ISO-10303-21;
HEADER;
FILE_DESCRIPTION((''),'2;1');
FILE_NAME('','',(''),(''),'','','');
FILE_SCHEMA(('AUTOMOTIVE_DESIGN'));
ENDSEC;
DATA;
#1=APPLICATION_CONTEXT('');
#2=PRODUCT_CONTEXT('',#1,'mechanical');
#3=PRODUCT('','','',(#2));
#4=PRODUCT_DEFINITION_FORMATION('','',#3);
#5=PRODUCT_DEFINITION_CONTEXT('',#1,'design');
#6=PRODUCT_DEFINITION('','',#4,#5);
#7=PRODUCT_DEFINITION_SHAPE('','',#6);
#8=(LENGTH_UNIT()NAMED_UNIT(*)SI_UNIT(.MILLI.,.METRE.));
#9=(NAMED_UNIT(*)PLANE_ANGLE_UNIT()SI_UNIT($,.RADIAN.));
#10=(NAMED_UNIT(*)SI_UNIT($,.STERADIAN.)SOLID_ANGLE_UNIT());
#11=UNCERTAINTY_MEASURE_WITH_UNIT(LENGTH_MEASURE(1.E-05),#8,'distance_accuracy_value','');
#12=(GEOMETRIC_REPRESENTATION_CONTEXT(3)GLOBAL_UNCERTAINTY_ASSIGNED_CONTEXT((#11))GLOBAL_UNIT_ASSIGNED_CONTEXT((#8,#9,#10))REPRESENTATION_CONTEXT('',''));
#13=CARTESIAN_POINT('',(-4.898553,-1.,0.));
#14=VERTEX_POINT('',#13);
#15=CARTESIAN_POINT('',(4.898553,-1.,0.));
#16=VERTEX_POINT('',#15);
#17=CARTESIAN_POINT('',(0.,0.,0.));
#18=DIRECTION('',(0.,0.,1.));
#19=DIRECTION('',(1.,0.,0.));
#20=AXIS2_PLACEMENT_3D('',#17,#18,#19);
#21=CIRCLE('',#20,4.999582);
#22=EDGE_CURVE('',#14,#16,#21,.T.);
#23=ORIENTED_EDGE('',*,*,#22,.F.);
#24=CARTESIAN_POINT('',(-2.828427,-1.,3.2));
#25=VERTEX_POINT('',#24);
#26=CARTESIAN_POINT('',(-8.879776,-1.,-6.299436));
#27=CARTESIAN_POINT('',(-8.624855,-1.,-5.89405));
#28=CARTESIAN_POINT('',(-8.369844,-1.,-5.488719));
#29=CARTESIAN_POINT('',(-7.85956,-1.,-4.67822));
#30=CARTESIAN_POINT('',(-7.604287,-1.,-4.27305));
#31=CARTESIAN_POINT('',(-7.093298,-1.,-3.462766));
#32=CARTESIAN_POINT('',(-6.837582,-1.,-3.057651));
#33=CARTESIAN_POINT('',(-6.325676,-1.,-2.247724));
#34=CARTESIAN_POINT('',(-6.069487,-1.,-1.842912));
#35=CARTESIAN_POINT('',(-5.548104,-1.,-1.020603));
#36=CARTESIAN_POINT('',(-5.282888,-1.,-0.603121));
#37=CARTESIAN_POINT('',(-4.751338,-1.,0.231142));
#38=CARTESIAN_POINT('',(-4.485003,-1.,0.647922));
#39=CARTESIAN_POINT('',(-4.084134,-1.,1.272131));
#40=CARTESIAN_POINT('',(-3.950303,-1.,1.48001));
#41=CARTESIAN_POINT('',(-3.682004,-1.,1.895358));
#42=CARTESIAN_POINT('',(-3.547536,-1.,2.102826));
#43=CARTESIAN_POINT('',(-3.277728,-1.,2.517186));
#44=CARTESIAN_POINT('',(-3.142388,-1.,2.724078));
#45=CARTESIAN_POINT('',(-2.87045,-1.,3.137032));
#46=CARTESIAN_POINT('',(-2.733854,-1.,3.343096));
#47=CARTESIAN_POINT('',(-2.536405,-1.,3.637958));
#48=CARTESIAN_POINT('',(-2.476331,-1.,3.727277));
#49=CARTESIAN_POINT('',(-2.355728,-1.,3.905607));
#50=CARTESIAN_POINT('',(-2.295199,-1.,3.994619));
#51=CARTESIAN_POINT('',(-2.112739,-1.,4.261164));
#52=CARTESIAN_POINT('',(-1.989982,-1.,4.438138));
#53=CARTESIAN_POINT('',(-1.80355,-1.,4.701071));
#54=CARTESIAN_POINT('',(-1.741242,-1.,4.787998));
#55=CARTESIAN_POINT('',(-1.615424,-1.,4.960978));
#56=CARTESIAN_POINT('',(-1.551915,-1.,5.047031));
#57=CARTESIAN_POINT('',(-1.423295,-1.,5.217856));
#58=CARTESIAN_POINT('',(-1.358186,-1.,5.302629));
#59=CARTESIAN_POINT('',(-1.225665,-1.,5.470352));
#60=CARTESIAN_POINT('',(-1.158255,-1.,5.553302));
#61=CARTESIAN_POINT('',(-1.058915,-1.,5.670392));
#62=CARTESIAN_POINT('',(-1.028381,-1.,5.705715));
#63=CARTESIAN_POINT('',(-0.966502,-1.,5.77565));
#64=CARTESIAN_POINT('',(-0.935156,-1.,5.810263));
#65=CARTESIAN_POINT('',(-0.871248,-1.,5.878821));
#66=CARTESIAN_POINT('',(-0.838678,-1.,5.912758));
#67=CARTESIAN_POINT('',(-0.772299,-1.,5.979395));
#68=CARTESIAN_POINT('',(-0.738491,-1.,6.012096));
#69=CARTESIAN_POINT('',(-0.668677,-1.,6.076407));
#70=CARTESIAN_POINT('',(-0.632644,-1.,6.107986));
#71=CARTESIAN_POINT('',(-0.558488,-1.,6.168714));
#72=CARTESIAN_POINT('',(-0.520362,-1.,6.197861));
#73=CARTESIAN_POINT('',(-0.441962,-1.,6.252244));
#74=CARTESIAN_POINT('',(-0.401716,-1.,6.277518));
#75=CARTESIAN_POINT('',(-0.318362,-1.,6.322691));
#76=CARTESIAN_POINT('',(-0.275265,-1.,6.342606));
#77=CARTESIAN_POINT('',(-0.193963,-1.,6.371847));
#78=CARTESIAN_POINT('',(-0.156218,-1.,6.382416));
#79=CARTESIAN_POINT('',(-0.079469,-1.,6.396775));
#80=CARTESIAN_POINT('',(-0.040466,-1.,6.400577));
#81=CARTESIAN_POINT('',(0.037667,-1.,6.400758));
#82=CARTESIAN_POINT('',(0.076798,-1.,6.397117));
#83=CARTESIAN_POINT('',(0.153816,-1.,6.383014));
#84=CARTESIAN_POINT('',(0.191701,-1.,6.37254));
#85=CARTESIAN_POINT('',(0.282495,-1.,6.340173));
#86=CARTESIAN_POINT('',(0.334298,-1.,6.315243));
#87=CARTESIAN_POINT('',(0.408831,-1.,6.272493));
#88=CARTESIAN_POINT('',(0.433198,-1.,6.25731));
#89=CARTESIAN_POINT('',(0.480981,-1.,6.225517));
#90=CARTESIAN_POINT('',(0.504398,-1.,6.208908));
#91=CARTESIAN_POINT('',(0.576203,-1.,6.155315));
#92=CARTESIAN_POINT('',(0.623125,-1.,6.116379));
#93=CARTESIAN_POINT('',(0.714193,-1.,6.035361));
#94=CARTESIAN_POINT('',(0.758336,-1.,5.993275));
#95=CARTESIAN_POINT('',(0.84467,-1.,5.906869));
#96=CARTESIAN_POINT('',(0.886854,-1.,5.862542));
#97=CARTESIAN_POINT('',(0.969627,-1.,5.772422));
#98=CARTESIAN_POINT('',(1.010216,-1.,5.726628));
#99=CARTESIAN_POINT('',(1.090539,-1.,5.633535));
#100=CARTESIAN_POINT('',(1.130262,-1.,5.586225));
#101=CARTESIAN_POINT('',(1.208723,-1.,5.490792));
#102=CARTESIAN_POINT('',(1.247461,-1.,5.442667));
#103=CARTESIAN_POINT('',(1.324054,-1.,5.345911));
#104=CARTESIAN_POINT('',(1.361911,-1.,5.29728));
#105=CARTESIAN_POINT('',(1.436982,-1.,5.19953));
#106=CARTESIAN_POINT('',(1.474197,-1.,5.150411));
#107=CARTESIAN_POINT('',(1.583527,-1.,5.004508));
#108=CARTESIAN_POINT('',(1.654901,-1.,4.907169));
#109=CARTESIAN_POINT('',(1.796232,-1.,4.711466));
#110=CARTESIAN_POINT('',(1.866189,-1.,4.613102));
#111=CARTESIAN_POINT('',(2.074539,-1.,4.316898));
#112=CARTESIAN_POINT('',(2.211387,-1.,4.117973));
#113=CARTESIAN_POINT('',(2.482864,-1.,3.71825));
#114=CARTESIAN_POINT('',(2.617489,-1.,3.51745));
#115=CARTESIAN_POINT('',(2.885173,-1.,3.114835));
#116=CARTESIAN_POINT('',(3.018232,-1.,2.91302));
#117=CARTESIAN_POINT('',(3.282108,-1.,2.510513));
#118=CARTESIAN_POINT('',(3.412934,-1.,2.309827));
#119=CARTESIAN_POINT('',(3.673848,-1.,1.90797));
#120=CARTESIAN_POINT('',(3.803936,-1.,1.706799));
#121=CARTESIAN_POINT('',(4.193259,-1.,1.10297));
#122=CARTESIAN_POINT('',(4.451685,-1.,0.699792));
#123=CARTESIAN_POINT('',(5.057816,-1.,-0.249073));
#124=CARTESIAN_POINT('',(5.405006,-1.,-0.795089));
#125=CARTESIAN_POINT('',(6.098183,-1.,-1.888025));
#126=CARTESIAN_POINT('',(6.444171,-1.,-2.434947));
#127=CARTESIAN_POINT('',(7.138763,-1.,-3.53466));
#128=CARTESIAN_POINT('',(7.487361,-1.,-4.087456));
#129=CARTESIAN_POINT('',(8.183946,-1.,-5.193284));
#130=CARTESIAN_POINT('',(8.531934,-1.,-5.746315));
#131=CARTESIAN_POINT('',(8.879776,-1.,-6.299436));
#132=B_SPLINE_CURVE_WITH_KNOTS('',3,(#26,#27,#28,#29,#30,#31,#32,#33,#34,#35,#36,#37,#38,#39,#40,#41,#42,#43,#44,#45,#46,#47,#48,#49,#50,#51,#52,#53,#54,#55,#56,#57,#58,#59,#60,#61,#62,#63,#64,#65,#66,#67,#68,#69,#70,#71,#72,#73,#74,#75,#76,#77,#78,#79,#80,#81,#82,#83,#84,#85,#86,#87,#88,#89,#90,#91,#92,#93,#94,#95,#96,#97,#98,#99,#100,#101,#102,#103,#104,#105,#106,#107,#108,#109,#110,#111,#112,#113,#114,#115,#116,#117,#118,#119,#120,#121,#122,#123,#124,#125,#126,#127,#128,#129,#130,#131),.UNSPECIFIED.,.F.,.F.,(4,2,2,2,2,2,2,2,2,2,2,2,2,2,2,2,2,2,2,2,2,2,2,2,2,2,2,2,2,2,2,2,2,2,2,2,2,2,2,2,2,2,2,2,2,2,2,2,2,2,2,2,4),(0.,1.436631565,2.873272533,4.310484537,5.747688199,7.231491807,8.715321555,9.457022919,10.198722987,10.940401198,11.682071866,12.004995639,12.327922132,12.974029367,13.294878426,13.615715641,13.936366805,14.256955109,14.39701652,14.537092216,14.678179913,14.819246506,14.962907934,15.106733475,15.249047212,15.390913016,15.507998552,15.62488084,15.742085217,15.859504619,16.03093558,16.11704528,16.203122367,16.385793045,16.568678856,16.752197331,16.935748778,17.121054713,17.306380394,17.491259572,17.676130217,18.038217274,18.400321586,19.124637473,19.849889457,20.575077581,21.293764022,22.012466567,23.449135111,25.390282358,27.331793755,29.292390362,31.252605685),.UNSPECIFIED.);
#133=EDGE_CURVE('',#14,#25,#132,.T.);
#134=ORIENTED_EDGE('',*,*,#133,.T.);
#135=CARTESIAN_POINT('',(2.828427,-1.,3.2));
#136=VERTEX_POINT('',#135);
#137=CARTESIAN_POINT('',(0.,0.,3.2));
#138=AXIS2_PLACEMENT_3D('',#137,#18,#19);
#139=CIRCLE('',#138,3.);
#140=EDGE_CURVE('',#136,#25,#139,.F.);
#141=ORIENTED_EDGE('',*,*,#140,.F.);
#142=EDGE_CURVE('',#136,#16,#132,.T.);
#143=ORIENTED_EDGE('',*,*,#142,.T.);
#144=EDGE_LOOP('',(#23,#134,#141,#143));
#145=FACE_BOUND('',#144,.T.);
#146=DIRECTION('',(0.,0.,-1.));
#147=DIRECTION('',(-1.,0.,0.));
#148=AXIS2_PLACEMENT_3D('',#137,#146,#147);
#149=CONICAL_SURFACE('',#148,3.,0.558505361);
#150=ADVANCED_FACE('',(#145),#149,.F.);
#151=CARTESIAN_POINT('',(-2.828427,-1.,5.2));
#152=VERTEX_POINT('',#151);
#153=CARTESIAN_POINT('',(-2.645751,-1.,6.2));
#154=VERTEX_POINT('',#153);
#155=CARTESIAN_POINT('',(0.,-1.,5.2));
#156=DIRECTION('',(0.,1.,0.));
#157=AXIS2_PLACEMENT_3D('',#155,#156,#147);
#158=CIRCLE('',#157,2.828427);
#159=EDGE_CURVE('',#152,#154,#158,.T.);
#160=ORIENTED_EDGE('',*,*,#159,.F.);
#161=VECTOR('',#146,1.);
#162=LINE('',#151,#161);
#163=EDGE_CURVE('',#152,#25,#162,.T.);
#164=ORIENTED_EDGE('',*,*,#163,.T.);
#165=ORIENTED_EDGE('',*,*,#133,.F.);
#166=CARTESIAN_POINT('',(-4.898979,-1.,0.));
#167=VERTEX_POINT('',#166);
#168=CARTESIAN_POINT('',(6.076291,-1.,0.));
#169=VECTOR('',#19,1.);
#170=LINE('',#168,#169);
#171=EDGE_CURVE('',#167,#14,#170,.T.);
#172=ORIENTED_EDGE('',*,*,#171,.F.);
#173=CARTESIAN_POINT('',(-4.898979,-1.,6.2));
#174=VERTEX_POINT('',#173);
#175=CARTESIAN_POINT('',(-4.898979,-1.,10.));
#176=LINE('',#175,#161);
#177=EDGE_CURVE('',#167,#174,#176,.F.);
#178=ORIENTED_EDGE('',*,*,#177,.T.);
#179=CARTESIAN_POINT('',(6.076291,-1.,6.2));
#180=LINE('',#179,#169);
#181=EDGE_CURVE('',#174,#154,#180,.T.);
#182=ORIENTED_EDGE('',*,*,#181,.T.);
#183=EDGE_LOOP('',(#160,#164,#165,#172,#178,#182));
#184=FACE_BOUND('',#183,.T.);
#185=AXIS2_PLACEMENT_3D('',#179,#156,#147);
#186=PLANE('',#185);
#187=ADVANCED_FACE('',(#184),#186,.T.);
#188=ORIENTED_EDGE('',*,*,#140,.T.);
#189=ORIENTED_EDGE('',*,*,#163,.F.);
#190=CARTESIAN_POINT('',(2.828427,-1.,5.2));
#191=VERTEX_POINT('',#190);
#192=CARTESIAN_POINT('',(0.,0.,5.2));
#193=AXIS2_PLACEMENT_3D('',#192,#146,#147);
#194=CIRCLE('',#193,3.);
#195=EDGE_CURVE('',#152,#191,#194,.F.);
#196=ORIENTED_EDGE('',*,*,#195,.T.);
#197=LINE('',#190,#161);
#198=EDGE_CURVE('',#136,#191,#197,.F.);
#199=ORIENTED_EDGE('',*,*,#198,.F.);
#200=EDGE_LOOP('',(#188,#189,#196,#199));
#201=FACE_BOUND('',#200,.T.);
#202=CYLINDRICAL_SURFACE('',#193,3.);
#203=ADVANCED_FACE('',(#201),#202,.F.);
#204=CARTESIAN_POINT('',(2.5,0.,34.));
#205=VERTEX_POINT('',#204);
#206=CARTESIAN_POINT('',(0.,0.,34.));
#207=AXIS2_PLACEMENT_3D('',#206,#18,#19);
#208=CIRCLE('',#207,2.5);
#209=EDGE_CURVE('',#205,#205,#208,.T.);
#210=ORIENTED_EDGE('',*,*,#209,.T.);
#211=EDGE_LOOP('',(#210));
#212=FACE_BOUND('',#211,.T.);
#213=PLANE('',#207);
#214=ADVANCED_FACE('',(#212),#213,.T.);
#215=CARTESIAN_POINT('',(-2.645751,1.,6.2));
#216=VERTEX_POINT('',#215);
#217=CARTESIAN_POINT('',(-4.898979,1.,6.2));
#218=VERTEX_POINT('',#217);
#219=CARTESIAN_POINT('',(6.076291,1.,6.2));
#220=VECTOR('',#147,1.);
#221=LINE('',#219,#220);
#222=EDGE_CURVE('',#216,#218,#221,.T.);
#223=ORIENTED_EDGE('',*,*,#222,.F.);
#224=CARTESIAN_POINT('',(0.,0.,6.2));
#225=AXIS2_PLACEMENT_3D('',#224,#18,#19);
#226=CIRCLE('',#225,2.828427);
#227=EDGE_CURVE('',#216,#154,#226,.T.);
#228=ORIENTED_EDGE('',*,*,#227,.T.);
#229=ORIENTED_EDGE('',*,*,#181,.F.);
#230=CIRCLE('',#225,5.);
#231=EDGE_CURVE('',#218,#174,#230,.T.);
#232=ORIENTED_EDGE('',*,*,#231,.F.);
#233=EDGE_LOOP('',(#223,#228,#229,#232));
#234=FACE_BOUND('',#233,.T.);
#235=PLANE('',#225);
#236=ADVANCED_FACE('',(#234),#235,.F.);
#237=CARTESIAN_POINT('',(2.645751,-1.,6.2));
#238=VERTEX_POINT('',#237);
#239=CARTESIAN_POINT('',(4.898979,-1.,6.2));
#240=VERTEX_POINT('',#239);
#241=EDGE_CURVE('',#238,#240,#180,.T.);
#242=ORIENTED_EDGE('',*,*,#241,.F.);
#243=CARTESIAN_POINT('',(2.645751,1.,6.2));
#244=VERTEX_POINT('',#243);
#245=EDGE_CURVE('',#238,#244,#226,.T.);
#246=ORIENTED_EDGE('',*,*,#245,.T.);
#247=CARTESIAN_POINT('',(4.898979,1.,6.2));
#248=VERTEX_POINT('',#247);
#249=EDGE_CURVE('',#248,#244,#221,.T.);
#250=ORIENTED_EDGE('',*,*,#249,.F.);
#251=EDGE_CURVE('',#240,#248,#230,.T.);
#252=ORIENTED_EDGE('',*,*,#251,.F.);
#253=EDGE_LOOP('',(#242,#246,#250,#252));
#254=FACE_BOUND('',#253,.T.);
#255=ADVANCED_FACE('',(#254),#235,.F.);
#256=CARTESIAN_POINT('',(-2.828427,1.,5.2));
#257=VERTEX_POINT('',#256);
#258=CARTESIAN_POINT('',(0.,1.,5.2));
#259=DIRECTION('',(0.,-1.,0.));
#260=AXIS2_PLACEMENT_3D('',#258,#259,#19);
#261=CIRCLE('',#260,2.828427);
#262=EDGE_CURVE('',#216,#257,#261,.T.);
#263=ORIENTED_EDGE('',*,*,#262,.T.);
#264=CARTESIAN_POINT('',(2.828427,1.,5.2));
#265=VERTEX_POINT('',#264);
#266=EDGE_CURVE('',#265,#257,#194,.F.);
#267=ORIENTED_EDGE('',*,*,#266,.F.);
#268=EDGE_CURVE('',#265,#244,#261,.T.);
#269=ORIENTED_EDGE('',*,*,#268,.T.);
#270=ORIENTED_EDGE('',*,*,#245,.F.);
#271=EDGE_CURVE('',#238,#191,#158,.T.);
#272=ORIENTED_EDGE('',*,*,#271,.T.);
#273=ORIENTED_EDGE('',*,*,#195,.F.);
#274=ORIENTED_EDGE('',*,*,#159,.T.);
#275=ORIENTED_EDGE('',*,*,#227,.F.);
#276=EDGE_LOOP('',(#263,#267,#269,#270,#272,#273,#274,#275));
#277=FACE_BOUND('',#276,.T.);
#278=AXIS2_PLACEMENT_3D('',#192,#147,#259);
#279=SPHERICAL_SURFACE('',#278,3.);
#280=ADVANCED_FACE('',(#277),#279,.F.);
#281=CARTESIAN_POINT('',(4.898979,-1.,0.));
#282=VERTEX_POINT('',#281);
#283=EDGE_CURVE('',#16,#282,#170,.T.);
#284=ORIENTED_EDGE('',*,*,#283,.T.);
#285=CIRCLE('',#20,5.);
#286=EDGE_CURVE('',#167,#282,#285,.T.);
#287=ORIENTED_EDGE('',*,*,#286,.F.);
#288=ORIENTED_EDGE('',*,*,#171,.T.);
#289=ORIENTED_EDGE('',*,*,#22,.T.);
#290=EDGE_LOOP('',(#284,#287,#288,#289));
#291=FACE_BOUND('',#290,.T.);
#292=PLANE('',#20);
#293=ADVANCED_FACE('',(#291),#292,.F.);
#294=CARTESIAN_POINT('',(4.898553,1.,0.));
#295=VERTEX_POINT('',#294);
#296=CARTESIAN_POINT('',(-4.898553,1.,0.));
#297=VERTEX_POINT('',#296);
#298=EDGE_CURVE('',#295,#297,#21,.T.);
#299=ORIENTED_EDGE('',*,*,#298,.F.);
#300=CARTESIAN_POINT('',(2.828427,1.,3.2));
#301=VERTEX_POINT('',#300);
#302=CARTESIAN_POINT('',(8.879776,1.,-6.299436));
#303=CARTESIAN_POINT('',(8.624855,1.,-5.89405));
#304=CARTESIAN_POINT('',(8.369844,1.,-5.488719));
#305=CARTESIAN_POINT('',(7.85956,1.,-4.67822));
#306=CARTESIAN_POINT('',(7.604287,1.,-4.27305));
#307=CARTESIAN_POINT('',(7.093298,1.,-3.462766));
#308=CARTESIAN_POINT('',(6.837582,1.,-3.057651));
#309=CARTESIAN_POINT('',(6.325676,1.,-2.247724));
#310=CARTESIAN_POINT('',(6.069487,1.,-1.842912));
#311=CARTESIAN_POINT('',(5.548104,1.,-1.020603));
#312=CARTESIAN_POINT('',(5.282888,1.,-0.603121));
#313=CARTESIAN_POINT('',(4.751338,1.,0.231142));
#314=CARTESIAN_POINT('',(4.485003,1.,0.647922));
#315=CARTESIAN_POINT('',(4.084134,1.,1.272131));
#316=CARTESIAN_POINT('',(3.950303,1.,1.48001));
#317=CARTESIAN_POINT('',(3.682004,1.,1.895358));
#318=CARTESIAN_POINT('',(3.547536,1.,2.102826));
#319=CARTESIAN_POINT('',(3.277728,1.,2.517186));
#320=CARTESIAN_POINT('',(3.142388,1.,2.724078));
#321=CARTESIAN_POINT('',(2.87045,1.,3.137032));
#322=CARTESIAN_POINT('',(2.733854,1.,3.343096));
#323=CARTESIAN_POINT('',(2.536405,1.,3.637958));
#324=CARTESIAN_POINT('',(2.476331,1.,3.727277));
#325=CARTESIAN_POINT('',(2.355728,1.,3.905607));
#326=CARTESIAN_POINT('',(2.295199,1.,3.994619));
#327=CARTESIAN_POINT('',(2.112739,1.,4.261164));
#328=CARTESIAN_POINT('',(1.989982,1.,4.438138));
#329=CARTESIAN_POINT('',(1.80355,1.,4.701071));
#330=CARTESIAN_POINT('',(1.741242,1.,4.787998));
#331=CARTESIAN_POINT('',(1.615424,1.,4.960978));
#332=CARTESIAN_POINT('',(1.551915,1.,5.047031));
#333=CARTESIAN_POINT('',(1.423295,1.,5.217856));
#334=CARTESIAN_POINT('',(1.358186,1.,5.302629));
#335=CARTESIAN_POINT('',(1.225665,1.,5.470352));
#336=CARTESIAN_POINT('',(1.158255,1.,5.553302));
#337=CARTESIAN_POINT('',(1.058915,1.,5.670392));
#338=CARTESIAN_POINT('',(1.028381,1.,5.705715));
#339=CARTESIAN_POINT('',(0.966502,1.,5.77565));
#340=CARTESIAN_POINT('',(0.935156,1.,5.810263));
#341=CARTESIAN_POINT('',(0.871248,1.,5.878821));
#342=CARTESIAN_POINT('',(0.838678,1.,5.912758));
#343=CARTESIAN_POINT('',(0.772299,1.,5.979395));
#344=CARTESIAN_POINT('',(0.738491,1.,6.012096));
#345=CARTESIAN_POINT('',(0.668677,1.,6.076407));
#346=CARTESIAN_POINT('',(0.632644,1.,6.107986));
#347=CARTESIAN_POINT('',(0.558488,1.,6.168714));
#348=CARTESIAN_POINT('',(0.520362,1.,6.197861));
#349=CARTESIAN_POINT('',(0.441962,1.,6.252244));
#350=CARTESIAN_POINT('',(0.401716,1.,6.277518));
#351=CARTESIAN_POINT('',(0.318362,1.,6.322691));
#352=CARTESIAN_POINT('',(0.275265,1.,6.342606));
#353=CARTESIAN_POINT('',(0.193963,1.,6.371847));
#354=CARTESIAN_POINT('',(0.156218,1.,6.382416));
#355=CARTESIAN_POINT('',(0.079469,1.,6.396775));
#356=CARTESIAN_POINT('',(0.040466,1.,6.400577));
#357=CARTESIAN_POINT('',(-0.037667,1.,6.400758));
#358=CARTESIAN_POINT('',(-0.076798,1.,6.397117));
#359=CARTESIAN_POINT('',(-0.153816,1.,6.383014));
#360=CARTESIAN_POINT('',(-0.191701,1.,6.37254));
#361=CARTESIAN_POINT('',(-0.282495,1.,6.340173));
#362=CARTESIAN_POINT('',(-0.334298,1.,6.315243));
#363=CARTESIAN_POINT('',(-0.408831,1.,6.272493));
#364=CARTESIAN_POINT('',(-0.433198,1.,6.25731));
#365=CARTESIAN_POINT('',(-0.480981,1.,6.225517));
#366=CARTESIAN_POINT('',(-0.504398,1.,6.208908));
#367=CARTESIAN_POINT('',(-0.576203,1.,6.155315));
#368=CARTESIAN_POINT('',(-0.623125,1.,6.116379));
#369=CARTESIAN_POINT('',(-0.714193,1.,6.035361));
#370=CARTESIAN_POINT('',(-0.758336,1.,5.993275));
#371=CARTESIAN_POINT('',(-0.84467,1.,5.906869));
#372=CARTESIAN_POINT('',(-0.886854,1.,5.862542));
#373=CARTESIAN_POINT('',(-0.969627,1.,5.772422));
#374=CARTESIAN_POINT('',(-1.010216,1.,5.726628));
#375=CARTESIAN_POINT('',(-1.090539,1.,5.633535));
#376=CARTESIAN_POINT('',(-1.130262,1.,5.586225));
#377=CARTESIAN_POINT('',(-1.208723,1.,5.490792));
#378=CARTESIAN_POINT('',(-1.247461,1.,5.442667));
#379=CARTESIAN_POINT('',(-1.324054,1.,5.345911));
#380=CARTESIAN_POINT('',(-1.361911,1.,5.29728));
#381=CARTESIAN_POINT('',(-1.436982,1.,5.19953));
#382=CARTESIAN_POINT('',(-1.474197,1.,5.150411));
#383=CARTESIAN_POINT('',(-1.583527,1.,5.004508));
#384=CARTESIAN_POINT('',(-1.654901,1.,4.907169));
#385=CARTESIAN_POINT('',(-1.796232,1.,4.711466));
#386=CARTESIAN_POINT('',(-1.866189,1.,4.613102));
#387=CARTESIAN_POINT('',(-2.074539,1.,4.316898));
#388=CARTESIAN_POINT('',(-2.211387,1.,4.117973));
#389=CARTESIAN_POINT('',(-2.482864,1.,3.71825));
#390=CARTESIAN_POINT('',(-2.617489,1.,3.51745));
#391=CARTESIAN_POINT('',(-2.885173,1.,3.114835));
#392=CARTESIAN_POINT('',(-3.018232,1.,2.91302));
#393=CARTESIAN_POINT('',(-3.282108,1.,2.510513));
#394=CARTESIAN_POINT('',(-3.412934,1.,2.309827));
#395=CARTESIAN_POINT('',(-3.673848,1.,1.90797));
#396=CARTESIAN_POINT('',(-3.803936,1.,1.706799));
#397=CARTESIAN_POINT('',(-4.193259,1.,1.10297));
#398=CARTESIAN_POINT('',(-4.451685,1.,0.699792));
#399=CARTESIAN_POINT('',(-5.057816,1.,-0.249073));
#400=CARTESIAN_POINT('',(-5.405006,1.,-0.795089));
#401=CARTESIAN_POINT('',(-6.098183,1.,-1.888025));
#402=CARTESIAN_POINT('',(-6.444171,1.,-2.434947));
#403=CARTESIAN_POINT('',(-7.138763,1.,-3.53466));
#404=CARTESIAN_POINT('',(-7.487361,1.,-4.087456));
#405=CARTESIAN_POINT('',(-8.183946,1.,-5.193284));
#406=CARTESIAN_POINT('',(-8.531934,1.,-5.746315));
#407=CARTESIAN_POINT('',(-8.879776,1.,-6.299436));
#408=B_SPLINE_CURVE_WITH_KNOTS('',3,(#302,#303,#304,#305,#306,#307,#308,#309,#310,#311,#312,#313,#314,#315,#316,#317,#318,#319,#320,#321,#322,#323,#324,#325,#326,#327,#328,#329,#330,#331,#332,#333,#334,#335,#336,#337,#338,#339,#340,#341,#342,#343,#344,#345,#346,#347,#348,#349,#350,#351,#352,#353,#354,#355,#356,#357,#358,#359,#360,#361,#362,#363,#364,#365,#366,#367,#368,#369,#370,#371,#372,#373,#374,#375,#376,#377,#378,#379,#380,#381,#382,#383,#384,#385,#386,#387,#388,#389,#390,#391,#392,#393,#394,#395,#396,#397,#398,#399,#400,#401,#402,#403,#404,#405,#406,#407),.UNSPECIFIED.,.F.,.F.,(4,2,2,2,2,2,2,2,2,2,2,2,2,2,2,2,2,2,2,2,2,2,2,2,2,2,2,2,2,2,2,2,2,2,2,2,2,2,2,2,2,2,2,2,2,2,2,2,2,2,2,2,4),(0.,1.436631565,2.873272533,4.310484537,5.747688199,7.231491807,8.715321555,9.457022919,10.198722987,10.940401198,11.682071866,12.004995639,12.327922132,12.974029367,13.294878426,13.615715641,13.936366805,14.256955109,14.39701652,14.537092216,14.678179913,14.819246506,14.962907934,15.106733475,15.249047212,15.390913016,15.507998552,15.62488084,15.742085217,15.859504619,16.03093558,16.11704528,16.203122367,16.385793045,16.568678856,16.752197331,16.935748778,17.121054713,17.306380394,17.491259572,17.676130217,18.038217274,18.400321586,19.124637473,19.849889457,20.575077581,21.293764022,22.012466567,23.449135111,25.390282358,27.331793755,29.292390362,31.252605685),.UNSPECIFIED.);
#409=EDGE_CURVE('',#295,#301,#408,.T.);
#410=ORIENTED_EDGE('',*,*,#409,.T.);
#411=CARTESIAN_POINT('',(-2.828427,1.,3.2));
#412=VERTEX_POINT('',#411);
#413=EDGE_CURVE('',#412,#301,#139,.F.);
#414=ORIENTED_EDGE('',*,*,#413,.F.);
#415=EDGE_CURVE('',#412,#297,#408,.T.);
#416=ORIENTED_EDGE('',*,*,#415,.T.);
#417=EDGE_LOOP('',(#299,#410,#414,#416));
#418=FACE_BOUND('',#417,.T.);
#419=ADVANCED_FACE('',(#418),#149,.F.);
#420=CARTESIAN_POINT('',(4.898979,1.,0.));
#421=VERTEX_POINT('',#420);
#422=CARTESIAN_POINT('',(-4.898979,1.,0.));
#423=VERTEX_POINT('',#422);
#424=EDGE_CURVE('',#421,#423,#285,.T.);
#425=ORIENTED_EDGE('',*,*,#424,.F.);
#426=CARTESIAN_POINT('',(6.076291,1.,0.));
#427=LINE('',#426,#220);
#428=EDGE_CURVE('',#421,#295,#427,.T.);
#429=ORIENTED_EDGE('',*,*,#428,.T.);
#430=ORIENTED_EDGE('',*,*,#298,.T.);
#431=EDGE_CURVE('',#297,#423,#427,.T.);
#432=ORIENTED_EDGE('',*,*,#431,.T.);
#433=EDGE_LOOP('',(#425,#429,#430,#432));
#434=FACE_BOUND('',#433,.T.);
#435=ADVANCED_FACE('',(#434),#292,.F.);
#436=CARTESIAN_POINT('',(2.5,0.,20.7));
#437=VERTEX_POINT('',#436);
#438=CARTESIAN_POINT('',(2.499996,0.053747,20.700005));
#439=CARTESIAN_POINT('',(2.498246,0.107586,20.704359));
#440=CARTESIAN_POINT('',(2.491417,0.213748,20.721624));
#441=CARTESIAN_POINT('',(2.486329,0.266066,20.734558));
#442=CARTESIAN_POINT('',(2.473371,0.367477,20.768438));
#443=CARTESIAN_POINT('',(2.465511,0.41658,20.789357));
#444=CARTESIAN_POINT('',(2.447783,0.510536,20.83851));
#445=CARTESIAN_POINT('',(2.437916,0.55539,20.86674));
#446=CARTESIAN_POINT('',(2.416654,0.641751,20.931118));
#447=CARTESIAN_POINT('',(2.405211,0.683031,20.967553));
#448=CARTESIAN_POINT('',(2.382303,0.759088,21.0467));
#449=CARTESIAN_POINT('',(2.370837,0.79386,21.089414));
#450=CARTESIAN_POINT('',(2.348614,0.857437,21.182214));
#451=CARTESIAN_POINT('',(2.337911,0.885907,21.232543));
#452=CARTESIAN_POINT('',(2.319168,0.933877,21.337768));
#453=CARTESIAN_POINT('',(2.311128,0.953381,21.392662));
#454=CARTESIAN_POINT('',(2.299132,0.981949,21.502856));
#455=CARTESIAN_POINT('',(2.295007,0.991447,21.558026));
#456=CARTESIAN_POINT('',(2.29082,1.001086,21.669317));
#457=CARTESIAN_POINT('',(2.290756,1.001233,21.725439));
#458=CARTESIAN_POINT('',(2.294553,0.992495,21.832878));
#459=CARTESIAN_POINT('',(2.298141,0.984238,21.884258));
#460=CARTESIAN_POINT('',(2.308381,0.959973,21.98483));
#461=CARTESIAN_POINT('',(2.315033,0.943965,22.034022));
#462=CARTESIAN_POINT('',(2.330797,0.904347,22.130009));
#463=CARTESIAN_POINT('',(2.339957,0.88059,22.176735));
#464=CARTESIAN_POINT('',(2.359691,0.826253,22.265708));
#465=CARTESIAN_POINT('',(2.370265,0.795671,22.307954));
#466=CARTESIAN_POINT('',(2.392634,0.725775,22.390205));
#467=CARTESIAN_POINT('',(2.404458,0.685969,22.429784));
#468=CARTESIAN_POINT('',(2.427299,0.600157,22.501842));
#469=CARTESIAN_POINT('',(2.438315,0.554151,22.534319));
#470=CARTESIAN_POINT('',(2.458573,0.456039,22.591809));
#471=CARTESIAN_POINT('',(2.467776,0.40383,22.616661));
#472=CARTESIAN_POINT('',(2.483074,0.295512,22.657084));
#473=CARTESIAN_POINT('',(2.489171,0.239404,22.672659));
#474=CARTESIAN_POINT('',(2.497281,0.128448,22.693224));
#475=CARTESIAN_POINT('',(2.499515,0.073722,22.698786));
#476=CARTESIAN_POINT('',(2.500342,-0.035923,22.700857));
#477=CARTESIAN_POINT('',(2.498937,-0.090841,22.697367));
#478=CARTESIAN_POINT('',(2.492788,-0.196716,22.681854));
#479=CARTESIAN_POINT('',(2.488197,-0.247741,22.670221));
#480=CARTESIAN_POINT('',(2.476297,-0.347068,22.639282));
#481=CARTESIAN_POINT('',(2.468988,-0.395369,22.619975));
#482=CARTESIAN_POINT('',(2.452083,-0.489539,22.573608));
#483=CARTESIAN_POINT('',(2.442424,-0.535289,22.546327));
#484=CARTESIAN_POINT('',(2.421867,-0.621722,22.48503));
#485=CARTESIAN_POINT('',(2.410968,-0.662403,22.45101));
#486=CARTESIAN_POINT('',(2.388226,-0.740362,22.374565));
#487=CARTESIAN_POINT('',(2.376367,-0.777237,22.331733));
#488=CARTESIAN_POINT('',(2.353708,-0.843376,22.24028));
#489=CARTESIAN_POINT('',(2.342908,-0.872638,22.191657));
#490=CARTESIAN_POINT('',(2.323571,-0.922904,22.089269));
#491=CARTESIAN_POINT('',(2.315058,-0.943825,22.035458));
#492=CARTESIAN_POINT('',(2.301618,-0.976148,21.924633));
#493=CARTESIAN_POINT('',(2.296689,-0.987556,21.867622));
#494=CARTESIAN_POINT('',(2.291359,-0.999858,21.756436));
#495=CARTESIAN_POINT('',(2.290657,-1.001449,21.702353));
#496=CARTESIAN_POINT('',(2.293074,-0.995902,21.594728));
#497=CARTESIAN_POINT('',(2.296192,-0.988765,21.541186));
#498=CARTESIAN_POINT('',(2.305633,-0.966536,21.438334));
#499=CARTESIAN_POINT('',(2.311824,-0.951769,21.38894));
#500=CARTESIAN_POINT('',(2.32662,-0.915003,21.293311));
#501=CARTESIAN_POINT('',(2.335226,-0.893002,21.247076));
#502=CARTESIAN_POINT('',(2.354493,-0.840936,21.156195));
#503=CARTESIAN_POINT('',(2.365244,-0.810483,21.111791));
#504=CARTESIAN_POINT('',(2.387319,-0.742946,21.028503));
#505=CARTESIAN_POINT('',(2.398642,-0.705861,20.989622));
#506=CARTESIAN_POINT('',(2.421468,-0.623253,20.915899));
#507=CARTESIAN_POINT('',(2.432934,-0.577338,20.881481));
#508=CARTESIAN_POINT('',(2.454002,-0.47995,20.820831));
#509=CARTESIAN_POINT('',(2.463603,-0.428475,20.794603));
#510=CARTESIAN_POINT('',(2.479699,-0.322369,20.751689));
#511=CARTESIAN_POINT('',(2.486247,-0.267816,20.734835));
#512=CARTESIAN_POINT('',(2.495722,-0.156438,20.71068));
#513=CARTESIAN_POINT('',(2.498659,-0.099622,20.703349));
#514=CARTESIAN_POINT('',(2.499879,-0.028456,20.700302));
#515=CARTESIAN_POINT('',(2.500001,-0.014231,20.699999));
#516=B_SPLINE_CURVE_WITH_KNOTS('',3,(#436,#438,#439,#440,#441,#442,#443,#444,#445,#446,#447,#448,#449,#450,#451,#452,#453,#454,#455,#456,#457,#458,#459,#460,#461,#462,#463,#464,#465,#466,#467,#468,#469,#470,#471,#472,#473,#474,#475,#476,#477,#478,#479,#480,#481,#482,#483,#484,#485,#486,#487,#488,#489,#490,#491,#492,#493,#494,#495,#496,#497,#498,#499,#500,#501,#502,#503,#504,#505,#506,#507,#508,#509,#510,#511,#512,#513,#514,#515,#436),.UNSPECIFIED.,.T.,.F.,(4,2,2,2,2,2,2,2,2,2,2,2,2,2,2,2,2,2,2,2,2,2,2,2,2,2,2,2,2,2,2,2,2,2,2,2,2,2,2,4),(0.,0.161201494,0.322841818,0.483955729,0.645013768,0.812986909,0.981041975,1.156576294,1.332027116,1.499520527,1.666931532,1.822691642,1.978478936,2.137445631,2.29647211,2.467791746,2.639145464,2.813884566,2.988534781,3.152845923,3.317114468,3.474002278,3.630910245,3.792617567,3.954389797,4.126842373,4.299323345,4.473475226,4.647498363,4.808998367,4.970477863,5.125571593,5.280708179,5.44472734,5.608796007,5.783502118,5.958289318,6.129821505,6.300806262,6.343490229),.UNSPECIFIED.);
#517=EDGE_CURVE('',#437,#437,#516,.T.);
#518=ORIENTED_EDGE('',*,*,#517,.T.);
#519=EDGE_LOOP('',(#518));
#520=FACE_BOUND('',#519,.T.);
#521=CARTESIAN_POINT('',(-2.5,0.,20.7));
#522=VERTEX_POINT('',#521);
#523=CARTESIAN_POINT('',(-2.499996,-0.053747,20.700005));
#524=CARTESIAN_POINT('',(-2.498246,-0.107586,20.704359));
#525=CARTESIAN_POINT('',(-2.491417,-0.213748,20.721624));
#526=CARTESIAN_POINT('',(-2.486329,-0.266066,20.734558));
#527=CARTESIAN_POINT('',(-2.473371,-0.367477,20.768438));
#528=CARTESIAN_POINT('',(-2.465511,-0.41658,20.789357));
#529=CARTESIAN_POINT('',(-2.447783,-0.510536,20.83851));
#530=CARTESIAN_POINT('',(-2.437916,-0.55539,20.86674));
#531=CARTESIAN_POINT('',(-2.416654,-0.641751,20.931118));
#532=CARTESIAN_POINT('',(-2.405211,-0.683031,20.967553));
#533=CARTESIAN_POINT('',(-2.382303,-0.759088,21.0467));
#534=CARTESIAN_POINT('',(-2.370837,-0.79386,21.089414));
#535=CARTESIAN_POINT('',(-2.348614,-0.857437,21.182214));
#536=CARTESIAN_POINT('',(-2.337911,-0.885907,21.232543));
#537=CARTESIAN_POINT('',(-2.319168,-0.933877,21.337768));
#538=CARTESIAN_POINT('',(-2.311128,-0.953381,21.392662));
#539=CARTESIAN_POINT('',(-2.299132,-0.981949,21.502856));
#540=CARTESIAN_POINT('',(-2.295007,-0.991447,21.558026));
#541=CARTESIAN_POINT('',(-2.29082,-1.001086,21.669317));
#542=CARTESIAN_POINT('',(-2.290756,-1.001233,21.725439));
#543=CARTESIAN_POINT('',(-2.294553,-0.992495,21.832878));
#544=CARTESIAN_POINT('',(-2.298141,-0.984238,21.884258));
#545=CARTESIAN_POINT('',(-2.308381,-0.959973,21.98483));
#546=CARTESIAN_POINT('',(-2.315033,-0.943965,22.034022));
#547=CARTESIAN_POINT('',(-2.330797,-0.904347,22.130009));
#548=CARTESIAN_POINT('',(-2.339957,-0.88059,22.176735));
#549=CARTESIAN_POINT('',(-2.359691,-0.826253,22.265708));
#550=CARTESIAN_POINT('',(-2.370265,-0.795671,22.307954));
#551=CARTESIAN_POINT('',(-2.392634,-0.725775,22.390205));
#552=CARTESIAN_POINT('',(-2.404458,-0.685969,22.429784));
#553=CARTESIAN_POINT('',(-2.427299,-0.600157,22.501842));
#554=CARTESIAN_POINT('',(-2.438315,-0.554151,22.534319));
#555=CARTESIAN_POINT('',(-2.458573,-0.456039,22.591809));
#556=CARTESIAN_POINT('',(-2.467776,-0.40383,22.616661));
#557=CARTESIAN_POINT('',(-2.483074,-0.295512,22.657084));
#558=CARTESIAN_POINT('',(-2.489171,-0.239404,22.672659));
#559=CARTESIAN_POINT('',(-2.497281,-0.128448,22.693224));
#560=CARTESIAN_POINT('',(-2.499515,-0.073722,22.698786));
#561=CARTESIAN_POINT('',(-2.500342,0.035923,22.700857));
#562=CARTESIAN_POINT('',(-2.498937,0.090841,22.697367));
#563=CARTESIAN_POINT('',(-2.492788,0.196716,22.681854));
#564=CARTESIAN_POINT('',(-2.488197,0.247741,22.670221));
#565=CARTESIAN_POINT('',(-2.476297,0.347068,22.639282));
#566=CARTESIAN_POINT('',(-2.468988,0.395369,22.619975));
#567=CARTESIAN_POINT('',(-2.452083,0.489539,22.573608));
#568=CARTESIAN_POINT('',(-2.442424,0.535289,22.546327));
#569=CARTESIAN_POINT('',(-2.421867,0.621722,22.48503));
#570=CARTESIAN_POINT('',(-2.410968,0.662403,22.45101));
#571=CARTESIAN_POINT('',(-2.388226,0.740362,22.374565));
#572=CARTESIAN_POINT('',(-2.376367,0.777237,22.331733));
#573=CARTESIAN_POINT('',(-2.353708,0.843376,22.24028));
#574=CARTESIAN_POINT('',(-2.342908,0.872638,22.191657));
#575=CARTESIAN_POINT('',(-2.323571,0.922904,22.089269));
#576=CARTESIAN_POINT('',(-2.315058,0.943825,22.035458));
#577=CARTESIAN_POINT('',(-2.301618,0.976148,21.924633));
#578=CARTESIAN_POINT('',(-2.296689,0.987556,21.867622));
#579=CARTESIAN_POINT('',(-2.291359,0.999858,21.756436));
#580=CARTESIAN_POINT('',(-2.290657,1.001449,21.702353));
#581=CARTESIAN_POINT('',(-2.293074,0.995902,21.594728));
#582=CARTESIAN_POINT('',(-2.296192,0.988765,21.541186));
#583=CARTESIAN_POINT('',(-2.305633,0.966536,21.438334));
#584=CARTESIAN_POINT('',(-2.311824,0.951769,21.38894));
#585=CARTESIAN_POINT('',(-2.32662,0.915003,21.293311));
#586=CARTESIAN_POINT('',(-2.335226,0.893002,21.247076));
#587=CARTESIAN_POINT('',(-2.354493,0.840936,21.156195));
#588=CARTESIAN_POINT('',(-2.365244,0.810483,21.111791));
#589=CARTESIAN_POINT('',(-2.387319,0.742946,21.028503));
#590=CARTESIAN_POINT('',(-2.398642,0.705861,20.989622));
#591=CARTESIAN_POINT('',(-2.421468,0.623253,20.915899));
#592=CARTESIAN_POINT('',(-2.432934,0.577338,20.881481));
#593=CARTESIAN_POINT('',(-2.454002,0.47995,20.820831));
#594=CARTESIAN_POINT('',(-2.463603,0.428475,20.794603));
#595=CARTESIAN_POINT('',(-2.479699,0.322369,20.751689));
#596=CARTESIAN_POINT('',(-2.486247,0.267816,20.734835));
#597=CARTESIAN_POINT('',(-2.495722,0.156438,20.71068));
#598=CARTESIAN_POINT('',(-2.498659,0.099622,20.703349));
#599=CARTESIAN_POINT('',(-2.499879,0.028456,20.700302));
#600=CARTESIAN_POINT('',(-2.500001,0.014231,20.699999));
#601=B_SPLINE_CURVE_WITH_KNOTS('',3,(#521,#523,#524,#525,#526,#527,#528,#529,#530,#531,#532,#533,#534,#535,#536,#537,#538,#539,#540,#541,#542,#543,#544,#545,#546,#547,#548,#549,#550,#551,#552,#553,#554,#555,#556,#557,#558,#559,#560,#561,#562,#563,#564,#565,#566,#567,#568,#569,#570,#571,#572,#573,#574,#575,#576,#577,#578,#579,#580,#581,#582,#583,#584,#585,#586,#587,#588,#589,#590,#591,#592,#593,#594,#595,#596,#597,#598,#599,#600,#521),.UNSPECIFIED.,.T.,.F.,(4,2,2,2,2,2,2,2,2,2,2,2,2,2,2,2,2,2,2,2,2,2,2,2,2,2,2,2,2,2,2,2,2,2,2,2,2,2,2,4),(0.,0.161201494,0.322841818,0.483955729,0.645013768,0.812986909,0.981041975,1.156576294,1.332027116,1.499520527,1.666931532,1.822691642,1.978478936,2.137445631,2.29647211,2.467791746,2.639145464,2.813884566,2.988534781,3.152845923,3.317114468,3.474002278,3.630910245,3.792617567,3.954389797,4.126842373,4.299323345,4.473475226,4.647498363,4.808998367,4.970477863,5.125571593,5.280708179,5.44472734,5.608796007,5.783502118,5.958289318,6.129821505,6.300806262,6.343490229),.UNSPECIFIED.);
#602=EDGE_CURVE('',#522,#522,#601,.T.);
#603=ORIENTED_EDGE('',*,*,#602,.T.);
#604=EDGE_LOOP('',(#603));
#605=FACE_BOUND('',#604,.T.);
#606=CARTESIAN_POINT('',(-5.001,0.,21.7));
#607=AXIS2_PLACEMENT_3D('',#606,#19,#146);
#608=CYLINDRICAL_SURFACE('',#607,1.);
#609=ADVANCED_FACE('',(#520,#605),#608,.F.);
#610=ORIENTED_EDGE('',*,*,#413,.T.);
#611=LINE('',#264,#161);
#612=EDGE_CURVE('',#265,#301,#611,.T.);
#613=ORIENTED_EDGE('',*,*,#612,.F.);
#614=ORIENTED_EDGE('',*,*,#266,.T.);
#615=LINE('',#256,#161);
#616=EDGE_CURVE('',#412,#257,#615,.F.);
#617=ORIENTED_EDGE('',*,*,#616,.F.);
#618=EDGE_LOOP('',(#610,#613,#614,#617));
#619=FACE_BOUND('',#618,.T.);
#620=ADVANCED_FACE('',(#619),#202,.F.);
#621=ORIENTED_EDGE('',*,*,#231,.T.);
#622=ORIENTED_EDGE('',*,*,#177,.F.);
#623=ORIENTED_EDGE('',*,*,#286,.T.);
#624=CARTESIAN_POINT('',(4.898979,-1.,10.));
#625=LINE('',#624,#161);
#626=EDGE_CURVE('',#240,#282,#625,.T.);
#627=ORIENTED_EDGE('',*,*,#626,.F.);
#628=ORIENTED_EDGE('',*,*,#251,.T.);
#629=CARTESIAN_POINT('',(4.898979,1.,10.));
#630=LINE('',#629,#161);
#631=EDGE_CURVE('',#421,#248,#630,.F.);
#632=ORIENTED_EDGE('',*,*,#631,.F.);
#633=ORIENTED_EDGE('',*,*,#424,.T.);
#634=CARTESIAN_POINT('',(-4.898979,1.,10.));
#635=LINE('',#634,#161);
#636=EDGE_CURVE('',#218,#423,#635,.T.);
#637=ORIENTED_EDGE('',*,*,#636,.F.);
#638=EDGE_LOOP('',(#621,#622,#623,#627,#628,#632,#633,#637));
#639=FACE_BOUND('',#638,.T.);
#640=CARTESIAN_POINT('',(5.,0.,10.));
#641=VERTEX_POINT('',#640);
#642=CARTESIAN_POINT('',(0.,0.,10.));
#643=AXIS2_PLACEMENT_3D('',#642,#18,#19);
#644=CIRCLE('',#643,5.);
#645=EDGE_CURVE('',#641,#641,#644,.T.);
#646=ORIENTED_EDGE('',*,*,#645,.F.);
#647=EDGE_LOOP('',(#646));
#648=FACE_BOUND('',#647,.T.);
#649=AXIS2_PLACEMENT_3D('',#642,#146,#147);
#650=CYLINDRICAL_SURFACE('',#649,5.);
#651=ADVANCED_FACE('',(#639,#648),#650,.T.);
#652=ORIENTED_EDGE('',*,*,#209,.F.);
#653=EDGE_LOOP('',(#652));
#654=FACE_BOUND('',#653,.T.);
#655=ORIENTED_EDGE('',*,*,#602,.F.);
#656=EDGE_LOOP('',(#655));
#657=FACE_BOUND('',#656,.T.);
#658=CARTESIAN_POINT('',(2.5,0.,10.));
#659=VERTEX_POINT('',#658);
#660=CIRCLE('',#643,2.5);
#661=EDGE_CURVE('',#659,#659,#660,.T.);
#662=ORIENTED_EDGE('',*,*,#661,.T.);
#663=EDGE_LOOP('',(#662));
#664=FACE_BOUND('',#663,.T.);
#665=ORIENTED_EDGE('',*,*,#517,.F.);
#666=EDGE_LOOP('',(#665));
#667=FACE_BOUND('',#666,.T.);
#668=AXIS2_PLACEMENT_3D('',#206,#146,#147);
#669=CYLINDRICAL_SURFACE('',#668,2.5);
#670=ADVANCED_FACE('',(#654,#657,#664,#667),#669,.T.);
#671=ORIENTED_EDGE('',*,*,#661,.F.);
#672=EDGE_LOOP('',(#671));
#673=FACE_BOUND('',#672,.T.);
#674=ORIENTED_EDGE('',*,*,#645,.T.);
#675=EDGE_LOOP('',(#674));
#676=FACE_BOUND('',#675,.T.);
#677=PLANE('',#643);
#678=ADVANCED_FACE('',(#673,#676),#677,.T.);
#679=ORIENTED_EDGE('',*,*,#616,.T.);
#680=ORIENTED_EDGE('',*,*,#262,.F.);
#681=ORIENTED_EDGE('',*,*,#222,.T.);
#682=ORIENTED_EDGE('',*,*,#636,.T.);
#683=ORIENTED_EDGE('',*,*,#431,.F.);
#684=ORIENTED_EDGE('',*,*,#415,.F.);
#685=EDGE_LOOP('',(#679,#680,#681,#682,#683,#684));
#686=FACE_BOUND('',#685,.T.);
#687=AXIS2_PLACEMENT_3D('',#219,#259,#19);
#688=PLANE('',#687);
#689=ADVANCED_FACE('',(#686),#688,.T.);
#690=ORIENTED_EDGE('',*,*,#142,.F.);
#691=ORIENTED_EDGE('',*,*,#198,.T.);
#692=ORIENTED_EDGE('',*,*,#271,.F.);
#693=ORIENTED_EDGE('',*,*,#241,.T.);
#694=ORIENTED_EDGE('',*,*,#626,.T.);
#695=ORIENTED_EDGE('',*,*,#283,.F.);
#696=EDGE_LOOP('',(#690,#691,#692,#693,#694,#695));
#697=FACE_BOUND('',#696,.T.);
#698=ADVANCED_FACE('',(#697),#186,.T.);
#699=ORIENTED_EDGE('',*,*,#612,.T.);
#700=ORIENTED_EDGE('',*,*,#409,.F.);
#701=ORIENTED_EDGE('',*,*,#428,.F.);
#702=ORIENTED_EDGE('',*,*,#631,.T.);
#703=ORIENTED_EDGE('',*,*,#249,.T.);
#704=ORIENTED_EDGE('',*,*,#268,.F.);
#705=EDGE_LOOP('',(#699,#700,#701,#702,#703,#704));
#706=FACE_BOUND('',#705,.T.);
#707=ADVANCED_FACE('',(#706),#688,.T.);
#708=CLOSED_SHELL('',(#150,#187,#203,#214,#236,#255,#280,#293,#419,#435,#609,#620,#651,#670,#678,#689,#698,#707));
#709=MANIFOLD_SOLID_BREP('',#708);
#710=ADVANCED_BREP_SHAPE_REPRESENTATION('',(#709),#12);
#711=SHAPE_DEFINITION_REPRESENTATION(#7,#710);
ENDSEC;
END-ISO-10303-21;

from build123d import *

# Parameters (mm, degrees)
SKETCH1_R           = 5
BOSS_EXTRUDE1_DEPTH = 10
SKETCH2_R           = 2.5
BOSS_EXTRUDE2_DEPTH = 24
SKETCH3_R           = 3
CUT_EXTRUDE1_DEPTH  = 5.2
CHAMFER1_SIZE       = 3.2
CHAMFER1_SIZE2      = 1.999581926
SKETCH7_W           = 12.152582876
SKETCH7_H           = 2
CUT_EXTRUDE2_DEPTH  = 6.2
CUT_EXTRUDE3_REACH  = 37.175
SKETCH8_R           = 1


with BuildPart() as part:
    # Sketch1 → Boss-Extrude1 (new body)
    with BuildSketch(Plane.XY):
        Circle(SKETCH1_R)
    extrude(amount=BOSS_EXTRUDE1_DEPTH)

    # Sketch2 → Boss-Extrude2 (add)
    with BuildSketch(Plane.XY.offset(10)):
        Circle(SKETCH2_R)
    extrude(amount=BOSS_EXTRUDE2_DEPTH)

    # Sketch3 → Cut-Extrude1 (cut)
    with BuildSketch(Plane(origin=(0, 0, 0), x_dir=(-1, 0, 0), z_dir=(0, 0, -1))):
        Circle(SKETCH3_R)
    extrude(amount=-CUT_EXTRUDE1_DEPTH, mode=Mode.SUBTRACT)

    # Chamfer1
    chamfer1_edges = [part.edges().sort_by_distance(p)[0] for p in [
        (3, 0, 0),
    ]]
    chamfer1_side = [part.faces().sort_by_distance(p)[0] for p in [
        (3, 0, 2.6),
    ]]
    chamfer(chamfer1_edges, length=CHAMFER1_SIZE, length2=CHAMFER1_SIZE2, reference=chamfer1_side[0])

    # Sketch6 → Cut-Revolve2 (revolve, cut)
    with BuildSketch(Plane(origin=(0, 0, 5.2), x_dir=(-1, 0, 0), z_dir=(0, 0, -1))):
        with BuildLine():
            Line((3, 0), (-3, 0))
            ThreePointArc((-3, 0), (0, -3), (3, 0))
        make_face()
    revolve(axis=Axis((-3, 0, 5.2), (1, 0, 0)), mode=Mode.SUBTRACT)

    # Sketch7 → Cut-Extrude2 (cut)
    with BuildSketch(Plane.XY):
        Rectangle(SKETCH7_W, SKETCH7_H)
    extrude(amount=CUT_EXTRUDE2_DEPTH, mode=Mode.SUBTRACT)

    # Sketch8 → Cut-Extrude3 (cut, up to next)
    with BuildSketch(Plane(origin=(2.5, 0, 0), x_dir=(0, 0, -1), z_dir=(1, 0, 0)), mode=Mode.PRIVATE) as cut_extrude3_sk1:
        with Locations((-21.7, 0)):
            Circle(SKETCH8_R)
    cut_extrude3_tool1 = extrude(cut_extrude3_sk1.sketch, amount=-CUT_EXTRUDE3_REACH, mode=Mode.PRIVATE) & part.part
    add(cut_extrude3_tool1.solids().sort_by_distance((2.5, 0, 21.7))[0], mode=Mode.SUBTRACT)


solid = part.part
